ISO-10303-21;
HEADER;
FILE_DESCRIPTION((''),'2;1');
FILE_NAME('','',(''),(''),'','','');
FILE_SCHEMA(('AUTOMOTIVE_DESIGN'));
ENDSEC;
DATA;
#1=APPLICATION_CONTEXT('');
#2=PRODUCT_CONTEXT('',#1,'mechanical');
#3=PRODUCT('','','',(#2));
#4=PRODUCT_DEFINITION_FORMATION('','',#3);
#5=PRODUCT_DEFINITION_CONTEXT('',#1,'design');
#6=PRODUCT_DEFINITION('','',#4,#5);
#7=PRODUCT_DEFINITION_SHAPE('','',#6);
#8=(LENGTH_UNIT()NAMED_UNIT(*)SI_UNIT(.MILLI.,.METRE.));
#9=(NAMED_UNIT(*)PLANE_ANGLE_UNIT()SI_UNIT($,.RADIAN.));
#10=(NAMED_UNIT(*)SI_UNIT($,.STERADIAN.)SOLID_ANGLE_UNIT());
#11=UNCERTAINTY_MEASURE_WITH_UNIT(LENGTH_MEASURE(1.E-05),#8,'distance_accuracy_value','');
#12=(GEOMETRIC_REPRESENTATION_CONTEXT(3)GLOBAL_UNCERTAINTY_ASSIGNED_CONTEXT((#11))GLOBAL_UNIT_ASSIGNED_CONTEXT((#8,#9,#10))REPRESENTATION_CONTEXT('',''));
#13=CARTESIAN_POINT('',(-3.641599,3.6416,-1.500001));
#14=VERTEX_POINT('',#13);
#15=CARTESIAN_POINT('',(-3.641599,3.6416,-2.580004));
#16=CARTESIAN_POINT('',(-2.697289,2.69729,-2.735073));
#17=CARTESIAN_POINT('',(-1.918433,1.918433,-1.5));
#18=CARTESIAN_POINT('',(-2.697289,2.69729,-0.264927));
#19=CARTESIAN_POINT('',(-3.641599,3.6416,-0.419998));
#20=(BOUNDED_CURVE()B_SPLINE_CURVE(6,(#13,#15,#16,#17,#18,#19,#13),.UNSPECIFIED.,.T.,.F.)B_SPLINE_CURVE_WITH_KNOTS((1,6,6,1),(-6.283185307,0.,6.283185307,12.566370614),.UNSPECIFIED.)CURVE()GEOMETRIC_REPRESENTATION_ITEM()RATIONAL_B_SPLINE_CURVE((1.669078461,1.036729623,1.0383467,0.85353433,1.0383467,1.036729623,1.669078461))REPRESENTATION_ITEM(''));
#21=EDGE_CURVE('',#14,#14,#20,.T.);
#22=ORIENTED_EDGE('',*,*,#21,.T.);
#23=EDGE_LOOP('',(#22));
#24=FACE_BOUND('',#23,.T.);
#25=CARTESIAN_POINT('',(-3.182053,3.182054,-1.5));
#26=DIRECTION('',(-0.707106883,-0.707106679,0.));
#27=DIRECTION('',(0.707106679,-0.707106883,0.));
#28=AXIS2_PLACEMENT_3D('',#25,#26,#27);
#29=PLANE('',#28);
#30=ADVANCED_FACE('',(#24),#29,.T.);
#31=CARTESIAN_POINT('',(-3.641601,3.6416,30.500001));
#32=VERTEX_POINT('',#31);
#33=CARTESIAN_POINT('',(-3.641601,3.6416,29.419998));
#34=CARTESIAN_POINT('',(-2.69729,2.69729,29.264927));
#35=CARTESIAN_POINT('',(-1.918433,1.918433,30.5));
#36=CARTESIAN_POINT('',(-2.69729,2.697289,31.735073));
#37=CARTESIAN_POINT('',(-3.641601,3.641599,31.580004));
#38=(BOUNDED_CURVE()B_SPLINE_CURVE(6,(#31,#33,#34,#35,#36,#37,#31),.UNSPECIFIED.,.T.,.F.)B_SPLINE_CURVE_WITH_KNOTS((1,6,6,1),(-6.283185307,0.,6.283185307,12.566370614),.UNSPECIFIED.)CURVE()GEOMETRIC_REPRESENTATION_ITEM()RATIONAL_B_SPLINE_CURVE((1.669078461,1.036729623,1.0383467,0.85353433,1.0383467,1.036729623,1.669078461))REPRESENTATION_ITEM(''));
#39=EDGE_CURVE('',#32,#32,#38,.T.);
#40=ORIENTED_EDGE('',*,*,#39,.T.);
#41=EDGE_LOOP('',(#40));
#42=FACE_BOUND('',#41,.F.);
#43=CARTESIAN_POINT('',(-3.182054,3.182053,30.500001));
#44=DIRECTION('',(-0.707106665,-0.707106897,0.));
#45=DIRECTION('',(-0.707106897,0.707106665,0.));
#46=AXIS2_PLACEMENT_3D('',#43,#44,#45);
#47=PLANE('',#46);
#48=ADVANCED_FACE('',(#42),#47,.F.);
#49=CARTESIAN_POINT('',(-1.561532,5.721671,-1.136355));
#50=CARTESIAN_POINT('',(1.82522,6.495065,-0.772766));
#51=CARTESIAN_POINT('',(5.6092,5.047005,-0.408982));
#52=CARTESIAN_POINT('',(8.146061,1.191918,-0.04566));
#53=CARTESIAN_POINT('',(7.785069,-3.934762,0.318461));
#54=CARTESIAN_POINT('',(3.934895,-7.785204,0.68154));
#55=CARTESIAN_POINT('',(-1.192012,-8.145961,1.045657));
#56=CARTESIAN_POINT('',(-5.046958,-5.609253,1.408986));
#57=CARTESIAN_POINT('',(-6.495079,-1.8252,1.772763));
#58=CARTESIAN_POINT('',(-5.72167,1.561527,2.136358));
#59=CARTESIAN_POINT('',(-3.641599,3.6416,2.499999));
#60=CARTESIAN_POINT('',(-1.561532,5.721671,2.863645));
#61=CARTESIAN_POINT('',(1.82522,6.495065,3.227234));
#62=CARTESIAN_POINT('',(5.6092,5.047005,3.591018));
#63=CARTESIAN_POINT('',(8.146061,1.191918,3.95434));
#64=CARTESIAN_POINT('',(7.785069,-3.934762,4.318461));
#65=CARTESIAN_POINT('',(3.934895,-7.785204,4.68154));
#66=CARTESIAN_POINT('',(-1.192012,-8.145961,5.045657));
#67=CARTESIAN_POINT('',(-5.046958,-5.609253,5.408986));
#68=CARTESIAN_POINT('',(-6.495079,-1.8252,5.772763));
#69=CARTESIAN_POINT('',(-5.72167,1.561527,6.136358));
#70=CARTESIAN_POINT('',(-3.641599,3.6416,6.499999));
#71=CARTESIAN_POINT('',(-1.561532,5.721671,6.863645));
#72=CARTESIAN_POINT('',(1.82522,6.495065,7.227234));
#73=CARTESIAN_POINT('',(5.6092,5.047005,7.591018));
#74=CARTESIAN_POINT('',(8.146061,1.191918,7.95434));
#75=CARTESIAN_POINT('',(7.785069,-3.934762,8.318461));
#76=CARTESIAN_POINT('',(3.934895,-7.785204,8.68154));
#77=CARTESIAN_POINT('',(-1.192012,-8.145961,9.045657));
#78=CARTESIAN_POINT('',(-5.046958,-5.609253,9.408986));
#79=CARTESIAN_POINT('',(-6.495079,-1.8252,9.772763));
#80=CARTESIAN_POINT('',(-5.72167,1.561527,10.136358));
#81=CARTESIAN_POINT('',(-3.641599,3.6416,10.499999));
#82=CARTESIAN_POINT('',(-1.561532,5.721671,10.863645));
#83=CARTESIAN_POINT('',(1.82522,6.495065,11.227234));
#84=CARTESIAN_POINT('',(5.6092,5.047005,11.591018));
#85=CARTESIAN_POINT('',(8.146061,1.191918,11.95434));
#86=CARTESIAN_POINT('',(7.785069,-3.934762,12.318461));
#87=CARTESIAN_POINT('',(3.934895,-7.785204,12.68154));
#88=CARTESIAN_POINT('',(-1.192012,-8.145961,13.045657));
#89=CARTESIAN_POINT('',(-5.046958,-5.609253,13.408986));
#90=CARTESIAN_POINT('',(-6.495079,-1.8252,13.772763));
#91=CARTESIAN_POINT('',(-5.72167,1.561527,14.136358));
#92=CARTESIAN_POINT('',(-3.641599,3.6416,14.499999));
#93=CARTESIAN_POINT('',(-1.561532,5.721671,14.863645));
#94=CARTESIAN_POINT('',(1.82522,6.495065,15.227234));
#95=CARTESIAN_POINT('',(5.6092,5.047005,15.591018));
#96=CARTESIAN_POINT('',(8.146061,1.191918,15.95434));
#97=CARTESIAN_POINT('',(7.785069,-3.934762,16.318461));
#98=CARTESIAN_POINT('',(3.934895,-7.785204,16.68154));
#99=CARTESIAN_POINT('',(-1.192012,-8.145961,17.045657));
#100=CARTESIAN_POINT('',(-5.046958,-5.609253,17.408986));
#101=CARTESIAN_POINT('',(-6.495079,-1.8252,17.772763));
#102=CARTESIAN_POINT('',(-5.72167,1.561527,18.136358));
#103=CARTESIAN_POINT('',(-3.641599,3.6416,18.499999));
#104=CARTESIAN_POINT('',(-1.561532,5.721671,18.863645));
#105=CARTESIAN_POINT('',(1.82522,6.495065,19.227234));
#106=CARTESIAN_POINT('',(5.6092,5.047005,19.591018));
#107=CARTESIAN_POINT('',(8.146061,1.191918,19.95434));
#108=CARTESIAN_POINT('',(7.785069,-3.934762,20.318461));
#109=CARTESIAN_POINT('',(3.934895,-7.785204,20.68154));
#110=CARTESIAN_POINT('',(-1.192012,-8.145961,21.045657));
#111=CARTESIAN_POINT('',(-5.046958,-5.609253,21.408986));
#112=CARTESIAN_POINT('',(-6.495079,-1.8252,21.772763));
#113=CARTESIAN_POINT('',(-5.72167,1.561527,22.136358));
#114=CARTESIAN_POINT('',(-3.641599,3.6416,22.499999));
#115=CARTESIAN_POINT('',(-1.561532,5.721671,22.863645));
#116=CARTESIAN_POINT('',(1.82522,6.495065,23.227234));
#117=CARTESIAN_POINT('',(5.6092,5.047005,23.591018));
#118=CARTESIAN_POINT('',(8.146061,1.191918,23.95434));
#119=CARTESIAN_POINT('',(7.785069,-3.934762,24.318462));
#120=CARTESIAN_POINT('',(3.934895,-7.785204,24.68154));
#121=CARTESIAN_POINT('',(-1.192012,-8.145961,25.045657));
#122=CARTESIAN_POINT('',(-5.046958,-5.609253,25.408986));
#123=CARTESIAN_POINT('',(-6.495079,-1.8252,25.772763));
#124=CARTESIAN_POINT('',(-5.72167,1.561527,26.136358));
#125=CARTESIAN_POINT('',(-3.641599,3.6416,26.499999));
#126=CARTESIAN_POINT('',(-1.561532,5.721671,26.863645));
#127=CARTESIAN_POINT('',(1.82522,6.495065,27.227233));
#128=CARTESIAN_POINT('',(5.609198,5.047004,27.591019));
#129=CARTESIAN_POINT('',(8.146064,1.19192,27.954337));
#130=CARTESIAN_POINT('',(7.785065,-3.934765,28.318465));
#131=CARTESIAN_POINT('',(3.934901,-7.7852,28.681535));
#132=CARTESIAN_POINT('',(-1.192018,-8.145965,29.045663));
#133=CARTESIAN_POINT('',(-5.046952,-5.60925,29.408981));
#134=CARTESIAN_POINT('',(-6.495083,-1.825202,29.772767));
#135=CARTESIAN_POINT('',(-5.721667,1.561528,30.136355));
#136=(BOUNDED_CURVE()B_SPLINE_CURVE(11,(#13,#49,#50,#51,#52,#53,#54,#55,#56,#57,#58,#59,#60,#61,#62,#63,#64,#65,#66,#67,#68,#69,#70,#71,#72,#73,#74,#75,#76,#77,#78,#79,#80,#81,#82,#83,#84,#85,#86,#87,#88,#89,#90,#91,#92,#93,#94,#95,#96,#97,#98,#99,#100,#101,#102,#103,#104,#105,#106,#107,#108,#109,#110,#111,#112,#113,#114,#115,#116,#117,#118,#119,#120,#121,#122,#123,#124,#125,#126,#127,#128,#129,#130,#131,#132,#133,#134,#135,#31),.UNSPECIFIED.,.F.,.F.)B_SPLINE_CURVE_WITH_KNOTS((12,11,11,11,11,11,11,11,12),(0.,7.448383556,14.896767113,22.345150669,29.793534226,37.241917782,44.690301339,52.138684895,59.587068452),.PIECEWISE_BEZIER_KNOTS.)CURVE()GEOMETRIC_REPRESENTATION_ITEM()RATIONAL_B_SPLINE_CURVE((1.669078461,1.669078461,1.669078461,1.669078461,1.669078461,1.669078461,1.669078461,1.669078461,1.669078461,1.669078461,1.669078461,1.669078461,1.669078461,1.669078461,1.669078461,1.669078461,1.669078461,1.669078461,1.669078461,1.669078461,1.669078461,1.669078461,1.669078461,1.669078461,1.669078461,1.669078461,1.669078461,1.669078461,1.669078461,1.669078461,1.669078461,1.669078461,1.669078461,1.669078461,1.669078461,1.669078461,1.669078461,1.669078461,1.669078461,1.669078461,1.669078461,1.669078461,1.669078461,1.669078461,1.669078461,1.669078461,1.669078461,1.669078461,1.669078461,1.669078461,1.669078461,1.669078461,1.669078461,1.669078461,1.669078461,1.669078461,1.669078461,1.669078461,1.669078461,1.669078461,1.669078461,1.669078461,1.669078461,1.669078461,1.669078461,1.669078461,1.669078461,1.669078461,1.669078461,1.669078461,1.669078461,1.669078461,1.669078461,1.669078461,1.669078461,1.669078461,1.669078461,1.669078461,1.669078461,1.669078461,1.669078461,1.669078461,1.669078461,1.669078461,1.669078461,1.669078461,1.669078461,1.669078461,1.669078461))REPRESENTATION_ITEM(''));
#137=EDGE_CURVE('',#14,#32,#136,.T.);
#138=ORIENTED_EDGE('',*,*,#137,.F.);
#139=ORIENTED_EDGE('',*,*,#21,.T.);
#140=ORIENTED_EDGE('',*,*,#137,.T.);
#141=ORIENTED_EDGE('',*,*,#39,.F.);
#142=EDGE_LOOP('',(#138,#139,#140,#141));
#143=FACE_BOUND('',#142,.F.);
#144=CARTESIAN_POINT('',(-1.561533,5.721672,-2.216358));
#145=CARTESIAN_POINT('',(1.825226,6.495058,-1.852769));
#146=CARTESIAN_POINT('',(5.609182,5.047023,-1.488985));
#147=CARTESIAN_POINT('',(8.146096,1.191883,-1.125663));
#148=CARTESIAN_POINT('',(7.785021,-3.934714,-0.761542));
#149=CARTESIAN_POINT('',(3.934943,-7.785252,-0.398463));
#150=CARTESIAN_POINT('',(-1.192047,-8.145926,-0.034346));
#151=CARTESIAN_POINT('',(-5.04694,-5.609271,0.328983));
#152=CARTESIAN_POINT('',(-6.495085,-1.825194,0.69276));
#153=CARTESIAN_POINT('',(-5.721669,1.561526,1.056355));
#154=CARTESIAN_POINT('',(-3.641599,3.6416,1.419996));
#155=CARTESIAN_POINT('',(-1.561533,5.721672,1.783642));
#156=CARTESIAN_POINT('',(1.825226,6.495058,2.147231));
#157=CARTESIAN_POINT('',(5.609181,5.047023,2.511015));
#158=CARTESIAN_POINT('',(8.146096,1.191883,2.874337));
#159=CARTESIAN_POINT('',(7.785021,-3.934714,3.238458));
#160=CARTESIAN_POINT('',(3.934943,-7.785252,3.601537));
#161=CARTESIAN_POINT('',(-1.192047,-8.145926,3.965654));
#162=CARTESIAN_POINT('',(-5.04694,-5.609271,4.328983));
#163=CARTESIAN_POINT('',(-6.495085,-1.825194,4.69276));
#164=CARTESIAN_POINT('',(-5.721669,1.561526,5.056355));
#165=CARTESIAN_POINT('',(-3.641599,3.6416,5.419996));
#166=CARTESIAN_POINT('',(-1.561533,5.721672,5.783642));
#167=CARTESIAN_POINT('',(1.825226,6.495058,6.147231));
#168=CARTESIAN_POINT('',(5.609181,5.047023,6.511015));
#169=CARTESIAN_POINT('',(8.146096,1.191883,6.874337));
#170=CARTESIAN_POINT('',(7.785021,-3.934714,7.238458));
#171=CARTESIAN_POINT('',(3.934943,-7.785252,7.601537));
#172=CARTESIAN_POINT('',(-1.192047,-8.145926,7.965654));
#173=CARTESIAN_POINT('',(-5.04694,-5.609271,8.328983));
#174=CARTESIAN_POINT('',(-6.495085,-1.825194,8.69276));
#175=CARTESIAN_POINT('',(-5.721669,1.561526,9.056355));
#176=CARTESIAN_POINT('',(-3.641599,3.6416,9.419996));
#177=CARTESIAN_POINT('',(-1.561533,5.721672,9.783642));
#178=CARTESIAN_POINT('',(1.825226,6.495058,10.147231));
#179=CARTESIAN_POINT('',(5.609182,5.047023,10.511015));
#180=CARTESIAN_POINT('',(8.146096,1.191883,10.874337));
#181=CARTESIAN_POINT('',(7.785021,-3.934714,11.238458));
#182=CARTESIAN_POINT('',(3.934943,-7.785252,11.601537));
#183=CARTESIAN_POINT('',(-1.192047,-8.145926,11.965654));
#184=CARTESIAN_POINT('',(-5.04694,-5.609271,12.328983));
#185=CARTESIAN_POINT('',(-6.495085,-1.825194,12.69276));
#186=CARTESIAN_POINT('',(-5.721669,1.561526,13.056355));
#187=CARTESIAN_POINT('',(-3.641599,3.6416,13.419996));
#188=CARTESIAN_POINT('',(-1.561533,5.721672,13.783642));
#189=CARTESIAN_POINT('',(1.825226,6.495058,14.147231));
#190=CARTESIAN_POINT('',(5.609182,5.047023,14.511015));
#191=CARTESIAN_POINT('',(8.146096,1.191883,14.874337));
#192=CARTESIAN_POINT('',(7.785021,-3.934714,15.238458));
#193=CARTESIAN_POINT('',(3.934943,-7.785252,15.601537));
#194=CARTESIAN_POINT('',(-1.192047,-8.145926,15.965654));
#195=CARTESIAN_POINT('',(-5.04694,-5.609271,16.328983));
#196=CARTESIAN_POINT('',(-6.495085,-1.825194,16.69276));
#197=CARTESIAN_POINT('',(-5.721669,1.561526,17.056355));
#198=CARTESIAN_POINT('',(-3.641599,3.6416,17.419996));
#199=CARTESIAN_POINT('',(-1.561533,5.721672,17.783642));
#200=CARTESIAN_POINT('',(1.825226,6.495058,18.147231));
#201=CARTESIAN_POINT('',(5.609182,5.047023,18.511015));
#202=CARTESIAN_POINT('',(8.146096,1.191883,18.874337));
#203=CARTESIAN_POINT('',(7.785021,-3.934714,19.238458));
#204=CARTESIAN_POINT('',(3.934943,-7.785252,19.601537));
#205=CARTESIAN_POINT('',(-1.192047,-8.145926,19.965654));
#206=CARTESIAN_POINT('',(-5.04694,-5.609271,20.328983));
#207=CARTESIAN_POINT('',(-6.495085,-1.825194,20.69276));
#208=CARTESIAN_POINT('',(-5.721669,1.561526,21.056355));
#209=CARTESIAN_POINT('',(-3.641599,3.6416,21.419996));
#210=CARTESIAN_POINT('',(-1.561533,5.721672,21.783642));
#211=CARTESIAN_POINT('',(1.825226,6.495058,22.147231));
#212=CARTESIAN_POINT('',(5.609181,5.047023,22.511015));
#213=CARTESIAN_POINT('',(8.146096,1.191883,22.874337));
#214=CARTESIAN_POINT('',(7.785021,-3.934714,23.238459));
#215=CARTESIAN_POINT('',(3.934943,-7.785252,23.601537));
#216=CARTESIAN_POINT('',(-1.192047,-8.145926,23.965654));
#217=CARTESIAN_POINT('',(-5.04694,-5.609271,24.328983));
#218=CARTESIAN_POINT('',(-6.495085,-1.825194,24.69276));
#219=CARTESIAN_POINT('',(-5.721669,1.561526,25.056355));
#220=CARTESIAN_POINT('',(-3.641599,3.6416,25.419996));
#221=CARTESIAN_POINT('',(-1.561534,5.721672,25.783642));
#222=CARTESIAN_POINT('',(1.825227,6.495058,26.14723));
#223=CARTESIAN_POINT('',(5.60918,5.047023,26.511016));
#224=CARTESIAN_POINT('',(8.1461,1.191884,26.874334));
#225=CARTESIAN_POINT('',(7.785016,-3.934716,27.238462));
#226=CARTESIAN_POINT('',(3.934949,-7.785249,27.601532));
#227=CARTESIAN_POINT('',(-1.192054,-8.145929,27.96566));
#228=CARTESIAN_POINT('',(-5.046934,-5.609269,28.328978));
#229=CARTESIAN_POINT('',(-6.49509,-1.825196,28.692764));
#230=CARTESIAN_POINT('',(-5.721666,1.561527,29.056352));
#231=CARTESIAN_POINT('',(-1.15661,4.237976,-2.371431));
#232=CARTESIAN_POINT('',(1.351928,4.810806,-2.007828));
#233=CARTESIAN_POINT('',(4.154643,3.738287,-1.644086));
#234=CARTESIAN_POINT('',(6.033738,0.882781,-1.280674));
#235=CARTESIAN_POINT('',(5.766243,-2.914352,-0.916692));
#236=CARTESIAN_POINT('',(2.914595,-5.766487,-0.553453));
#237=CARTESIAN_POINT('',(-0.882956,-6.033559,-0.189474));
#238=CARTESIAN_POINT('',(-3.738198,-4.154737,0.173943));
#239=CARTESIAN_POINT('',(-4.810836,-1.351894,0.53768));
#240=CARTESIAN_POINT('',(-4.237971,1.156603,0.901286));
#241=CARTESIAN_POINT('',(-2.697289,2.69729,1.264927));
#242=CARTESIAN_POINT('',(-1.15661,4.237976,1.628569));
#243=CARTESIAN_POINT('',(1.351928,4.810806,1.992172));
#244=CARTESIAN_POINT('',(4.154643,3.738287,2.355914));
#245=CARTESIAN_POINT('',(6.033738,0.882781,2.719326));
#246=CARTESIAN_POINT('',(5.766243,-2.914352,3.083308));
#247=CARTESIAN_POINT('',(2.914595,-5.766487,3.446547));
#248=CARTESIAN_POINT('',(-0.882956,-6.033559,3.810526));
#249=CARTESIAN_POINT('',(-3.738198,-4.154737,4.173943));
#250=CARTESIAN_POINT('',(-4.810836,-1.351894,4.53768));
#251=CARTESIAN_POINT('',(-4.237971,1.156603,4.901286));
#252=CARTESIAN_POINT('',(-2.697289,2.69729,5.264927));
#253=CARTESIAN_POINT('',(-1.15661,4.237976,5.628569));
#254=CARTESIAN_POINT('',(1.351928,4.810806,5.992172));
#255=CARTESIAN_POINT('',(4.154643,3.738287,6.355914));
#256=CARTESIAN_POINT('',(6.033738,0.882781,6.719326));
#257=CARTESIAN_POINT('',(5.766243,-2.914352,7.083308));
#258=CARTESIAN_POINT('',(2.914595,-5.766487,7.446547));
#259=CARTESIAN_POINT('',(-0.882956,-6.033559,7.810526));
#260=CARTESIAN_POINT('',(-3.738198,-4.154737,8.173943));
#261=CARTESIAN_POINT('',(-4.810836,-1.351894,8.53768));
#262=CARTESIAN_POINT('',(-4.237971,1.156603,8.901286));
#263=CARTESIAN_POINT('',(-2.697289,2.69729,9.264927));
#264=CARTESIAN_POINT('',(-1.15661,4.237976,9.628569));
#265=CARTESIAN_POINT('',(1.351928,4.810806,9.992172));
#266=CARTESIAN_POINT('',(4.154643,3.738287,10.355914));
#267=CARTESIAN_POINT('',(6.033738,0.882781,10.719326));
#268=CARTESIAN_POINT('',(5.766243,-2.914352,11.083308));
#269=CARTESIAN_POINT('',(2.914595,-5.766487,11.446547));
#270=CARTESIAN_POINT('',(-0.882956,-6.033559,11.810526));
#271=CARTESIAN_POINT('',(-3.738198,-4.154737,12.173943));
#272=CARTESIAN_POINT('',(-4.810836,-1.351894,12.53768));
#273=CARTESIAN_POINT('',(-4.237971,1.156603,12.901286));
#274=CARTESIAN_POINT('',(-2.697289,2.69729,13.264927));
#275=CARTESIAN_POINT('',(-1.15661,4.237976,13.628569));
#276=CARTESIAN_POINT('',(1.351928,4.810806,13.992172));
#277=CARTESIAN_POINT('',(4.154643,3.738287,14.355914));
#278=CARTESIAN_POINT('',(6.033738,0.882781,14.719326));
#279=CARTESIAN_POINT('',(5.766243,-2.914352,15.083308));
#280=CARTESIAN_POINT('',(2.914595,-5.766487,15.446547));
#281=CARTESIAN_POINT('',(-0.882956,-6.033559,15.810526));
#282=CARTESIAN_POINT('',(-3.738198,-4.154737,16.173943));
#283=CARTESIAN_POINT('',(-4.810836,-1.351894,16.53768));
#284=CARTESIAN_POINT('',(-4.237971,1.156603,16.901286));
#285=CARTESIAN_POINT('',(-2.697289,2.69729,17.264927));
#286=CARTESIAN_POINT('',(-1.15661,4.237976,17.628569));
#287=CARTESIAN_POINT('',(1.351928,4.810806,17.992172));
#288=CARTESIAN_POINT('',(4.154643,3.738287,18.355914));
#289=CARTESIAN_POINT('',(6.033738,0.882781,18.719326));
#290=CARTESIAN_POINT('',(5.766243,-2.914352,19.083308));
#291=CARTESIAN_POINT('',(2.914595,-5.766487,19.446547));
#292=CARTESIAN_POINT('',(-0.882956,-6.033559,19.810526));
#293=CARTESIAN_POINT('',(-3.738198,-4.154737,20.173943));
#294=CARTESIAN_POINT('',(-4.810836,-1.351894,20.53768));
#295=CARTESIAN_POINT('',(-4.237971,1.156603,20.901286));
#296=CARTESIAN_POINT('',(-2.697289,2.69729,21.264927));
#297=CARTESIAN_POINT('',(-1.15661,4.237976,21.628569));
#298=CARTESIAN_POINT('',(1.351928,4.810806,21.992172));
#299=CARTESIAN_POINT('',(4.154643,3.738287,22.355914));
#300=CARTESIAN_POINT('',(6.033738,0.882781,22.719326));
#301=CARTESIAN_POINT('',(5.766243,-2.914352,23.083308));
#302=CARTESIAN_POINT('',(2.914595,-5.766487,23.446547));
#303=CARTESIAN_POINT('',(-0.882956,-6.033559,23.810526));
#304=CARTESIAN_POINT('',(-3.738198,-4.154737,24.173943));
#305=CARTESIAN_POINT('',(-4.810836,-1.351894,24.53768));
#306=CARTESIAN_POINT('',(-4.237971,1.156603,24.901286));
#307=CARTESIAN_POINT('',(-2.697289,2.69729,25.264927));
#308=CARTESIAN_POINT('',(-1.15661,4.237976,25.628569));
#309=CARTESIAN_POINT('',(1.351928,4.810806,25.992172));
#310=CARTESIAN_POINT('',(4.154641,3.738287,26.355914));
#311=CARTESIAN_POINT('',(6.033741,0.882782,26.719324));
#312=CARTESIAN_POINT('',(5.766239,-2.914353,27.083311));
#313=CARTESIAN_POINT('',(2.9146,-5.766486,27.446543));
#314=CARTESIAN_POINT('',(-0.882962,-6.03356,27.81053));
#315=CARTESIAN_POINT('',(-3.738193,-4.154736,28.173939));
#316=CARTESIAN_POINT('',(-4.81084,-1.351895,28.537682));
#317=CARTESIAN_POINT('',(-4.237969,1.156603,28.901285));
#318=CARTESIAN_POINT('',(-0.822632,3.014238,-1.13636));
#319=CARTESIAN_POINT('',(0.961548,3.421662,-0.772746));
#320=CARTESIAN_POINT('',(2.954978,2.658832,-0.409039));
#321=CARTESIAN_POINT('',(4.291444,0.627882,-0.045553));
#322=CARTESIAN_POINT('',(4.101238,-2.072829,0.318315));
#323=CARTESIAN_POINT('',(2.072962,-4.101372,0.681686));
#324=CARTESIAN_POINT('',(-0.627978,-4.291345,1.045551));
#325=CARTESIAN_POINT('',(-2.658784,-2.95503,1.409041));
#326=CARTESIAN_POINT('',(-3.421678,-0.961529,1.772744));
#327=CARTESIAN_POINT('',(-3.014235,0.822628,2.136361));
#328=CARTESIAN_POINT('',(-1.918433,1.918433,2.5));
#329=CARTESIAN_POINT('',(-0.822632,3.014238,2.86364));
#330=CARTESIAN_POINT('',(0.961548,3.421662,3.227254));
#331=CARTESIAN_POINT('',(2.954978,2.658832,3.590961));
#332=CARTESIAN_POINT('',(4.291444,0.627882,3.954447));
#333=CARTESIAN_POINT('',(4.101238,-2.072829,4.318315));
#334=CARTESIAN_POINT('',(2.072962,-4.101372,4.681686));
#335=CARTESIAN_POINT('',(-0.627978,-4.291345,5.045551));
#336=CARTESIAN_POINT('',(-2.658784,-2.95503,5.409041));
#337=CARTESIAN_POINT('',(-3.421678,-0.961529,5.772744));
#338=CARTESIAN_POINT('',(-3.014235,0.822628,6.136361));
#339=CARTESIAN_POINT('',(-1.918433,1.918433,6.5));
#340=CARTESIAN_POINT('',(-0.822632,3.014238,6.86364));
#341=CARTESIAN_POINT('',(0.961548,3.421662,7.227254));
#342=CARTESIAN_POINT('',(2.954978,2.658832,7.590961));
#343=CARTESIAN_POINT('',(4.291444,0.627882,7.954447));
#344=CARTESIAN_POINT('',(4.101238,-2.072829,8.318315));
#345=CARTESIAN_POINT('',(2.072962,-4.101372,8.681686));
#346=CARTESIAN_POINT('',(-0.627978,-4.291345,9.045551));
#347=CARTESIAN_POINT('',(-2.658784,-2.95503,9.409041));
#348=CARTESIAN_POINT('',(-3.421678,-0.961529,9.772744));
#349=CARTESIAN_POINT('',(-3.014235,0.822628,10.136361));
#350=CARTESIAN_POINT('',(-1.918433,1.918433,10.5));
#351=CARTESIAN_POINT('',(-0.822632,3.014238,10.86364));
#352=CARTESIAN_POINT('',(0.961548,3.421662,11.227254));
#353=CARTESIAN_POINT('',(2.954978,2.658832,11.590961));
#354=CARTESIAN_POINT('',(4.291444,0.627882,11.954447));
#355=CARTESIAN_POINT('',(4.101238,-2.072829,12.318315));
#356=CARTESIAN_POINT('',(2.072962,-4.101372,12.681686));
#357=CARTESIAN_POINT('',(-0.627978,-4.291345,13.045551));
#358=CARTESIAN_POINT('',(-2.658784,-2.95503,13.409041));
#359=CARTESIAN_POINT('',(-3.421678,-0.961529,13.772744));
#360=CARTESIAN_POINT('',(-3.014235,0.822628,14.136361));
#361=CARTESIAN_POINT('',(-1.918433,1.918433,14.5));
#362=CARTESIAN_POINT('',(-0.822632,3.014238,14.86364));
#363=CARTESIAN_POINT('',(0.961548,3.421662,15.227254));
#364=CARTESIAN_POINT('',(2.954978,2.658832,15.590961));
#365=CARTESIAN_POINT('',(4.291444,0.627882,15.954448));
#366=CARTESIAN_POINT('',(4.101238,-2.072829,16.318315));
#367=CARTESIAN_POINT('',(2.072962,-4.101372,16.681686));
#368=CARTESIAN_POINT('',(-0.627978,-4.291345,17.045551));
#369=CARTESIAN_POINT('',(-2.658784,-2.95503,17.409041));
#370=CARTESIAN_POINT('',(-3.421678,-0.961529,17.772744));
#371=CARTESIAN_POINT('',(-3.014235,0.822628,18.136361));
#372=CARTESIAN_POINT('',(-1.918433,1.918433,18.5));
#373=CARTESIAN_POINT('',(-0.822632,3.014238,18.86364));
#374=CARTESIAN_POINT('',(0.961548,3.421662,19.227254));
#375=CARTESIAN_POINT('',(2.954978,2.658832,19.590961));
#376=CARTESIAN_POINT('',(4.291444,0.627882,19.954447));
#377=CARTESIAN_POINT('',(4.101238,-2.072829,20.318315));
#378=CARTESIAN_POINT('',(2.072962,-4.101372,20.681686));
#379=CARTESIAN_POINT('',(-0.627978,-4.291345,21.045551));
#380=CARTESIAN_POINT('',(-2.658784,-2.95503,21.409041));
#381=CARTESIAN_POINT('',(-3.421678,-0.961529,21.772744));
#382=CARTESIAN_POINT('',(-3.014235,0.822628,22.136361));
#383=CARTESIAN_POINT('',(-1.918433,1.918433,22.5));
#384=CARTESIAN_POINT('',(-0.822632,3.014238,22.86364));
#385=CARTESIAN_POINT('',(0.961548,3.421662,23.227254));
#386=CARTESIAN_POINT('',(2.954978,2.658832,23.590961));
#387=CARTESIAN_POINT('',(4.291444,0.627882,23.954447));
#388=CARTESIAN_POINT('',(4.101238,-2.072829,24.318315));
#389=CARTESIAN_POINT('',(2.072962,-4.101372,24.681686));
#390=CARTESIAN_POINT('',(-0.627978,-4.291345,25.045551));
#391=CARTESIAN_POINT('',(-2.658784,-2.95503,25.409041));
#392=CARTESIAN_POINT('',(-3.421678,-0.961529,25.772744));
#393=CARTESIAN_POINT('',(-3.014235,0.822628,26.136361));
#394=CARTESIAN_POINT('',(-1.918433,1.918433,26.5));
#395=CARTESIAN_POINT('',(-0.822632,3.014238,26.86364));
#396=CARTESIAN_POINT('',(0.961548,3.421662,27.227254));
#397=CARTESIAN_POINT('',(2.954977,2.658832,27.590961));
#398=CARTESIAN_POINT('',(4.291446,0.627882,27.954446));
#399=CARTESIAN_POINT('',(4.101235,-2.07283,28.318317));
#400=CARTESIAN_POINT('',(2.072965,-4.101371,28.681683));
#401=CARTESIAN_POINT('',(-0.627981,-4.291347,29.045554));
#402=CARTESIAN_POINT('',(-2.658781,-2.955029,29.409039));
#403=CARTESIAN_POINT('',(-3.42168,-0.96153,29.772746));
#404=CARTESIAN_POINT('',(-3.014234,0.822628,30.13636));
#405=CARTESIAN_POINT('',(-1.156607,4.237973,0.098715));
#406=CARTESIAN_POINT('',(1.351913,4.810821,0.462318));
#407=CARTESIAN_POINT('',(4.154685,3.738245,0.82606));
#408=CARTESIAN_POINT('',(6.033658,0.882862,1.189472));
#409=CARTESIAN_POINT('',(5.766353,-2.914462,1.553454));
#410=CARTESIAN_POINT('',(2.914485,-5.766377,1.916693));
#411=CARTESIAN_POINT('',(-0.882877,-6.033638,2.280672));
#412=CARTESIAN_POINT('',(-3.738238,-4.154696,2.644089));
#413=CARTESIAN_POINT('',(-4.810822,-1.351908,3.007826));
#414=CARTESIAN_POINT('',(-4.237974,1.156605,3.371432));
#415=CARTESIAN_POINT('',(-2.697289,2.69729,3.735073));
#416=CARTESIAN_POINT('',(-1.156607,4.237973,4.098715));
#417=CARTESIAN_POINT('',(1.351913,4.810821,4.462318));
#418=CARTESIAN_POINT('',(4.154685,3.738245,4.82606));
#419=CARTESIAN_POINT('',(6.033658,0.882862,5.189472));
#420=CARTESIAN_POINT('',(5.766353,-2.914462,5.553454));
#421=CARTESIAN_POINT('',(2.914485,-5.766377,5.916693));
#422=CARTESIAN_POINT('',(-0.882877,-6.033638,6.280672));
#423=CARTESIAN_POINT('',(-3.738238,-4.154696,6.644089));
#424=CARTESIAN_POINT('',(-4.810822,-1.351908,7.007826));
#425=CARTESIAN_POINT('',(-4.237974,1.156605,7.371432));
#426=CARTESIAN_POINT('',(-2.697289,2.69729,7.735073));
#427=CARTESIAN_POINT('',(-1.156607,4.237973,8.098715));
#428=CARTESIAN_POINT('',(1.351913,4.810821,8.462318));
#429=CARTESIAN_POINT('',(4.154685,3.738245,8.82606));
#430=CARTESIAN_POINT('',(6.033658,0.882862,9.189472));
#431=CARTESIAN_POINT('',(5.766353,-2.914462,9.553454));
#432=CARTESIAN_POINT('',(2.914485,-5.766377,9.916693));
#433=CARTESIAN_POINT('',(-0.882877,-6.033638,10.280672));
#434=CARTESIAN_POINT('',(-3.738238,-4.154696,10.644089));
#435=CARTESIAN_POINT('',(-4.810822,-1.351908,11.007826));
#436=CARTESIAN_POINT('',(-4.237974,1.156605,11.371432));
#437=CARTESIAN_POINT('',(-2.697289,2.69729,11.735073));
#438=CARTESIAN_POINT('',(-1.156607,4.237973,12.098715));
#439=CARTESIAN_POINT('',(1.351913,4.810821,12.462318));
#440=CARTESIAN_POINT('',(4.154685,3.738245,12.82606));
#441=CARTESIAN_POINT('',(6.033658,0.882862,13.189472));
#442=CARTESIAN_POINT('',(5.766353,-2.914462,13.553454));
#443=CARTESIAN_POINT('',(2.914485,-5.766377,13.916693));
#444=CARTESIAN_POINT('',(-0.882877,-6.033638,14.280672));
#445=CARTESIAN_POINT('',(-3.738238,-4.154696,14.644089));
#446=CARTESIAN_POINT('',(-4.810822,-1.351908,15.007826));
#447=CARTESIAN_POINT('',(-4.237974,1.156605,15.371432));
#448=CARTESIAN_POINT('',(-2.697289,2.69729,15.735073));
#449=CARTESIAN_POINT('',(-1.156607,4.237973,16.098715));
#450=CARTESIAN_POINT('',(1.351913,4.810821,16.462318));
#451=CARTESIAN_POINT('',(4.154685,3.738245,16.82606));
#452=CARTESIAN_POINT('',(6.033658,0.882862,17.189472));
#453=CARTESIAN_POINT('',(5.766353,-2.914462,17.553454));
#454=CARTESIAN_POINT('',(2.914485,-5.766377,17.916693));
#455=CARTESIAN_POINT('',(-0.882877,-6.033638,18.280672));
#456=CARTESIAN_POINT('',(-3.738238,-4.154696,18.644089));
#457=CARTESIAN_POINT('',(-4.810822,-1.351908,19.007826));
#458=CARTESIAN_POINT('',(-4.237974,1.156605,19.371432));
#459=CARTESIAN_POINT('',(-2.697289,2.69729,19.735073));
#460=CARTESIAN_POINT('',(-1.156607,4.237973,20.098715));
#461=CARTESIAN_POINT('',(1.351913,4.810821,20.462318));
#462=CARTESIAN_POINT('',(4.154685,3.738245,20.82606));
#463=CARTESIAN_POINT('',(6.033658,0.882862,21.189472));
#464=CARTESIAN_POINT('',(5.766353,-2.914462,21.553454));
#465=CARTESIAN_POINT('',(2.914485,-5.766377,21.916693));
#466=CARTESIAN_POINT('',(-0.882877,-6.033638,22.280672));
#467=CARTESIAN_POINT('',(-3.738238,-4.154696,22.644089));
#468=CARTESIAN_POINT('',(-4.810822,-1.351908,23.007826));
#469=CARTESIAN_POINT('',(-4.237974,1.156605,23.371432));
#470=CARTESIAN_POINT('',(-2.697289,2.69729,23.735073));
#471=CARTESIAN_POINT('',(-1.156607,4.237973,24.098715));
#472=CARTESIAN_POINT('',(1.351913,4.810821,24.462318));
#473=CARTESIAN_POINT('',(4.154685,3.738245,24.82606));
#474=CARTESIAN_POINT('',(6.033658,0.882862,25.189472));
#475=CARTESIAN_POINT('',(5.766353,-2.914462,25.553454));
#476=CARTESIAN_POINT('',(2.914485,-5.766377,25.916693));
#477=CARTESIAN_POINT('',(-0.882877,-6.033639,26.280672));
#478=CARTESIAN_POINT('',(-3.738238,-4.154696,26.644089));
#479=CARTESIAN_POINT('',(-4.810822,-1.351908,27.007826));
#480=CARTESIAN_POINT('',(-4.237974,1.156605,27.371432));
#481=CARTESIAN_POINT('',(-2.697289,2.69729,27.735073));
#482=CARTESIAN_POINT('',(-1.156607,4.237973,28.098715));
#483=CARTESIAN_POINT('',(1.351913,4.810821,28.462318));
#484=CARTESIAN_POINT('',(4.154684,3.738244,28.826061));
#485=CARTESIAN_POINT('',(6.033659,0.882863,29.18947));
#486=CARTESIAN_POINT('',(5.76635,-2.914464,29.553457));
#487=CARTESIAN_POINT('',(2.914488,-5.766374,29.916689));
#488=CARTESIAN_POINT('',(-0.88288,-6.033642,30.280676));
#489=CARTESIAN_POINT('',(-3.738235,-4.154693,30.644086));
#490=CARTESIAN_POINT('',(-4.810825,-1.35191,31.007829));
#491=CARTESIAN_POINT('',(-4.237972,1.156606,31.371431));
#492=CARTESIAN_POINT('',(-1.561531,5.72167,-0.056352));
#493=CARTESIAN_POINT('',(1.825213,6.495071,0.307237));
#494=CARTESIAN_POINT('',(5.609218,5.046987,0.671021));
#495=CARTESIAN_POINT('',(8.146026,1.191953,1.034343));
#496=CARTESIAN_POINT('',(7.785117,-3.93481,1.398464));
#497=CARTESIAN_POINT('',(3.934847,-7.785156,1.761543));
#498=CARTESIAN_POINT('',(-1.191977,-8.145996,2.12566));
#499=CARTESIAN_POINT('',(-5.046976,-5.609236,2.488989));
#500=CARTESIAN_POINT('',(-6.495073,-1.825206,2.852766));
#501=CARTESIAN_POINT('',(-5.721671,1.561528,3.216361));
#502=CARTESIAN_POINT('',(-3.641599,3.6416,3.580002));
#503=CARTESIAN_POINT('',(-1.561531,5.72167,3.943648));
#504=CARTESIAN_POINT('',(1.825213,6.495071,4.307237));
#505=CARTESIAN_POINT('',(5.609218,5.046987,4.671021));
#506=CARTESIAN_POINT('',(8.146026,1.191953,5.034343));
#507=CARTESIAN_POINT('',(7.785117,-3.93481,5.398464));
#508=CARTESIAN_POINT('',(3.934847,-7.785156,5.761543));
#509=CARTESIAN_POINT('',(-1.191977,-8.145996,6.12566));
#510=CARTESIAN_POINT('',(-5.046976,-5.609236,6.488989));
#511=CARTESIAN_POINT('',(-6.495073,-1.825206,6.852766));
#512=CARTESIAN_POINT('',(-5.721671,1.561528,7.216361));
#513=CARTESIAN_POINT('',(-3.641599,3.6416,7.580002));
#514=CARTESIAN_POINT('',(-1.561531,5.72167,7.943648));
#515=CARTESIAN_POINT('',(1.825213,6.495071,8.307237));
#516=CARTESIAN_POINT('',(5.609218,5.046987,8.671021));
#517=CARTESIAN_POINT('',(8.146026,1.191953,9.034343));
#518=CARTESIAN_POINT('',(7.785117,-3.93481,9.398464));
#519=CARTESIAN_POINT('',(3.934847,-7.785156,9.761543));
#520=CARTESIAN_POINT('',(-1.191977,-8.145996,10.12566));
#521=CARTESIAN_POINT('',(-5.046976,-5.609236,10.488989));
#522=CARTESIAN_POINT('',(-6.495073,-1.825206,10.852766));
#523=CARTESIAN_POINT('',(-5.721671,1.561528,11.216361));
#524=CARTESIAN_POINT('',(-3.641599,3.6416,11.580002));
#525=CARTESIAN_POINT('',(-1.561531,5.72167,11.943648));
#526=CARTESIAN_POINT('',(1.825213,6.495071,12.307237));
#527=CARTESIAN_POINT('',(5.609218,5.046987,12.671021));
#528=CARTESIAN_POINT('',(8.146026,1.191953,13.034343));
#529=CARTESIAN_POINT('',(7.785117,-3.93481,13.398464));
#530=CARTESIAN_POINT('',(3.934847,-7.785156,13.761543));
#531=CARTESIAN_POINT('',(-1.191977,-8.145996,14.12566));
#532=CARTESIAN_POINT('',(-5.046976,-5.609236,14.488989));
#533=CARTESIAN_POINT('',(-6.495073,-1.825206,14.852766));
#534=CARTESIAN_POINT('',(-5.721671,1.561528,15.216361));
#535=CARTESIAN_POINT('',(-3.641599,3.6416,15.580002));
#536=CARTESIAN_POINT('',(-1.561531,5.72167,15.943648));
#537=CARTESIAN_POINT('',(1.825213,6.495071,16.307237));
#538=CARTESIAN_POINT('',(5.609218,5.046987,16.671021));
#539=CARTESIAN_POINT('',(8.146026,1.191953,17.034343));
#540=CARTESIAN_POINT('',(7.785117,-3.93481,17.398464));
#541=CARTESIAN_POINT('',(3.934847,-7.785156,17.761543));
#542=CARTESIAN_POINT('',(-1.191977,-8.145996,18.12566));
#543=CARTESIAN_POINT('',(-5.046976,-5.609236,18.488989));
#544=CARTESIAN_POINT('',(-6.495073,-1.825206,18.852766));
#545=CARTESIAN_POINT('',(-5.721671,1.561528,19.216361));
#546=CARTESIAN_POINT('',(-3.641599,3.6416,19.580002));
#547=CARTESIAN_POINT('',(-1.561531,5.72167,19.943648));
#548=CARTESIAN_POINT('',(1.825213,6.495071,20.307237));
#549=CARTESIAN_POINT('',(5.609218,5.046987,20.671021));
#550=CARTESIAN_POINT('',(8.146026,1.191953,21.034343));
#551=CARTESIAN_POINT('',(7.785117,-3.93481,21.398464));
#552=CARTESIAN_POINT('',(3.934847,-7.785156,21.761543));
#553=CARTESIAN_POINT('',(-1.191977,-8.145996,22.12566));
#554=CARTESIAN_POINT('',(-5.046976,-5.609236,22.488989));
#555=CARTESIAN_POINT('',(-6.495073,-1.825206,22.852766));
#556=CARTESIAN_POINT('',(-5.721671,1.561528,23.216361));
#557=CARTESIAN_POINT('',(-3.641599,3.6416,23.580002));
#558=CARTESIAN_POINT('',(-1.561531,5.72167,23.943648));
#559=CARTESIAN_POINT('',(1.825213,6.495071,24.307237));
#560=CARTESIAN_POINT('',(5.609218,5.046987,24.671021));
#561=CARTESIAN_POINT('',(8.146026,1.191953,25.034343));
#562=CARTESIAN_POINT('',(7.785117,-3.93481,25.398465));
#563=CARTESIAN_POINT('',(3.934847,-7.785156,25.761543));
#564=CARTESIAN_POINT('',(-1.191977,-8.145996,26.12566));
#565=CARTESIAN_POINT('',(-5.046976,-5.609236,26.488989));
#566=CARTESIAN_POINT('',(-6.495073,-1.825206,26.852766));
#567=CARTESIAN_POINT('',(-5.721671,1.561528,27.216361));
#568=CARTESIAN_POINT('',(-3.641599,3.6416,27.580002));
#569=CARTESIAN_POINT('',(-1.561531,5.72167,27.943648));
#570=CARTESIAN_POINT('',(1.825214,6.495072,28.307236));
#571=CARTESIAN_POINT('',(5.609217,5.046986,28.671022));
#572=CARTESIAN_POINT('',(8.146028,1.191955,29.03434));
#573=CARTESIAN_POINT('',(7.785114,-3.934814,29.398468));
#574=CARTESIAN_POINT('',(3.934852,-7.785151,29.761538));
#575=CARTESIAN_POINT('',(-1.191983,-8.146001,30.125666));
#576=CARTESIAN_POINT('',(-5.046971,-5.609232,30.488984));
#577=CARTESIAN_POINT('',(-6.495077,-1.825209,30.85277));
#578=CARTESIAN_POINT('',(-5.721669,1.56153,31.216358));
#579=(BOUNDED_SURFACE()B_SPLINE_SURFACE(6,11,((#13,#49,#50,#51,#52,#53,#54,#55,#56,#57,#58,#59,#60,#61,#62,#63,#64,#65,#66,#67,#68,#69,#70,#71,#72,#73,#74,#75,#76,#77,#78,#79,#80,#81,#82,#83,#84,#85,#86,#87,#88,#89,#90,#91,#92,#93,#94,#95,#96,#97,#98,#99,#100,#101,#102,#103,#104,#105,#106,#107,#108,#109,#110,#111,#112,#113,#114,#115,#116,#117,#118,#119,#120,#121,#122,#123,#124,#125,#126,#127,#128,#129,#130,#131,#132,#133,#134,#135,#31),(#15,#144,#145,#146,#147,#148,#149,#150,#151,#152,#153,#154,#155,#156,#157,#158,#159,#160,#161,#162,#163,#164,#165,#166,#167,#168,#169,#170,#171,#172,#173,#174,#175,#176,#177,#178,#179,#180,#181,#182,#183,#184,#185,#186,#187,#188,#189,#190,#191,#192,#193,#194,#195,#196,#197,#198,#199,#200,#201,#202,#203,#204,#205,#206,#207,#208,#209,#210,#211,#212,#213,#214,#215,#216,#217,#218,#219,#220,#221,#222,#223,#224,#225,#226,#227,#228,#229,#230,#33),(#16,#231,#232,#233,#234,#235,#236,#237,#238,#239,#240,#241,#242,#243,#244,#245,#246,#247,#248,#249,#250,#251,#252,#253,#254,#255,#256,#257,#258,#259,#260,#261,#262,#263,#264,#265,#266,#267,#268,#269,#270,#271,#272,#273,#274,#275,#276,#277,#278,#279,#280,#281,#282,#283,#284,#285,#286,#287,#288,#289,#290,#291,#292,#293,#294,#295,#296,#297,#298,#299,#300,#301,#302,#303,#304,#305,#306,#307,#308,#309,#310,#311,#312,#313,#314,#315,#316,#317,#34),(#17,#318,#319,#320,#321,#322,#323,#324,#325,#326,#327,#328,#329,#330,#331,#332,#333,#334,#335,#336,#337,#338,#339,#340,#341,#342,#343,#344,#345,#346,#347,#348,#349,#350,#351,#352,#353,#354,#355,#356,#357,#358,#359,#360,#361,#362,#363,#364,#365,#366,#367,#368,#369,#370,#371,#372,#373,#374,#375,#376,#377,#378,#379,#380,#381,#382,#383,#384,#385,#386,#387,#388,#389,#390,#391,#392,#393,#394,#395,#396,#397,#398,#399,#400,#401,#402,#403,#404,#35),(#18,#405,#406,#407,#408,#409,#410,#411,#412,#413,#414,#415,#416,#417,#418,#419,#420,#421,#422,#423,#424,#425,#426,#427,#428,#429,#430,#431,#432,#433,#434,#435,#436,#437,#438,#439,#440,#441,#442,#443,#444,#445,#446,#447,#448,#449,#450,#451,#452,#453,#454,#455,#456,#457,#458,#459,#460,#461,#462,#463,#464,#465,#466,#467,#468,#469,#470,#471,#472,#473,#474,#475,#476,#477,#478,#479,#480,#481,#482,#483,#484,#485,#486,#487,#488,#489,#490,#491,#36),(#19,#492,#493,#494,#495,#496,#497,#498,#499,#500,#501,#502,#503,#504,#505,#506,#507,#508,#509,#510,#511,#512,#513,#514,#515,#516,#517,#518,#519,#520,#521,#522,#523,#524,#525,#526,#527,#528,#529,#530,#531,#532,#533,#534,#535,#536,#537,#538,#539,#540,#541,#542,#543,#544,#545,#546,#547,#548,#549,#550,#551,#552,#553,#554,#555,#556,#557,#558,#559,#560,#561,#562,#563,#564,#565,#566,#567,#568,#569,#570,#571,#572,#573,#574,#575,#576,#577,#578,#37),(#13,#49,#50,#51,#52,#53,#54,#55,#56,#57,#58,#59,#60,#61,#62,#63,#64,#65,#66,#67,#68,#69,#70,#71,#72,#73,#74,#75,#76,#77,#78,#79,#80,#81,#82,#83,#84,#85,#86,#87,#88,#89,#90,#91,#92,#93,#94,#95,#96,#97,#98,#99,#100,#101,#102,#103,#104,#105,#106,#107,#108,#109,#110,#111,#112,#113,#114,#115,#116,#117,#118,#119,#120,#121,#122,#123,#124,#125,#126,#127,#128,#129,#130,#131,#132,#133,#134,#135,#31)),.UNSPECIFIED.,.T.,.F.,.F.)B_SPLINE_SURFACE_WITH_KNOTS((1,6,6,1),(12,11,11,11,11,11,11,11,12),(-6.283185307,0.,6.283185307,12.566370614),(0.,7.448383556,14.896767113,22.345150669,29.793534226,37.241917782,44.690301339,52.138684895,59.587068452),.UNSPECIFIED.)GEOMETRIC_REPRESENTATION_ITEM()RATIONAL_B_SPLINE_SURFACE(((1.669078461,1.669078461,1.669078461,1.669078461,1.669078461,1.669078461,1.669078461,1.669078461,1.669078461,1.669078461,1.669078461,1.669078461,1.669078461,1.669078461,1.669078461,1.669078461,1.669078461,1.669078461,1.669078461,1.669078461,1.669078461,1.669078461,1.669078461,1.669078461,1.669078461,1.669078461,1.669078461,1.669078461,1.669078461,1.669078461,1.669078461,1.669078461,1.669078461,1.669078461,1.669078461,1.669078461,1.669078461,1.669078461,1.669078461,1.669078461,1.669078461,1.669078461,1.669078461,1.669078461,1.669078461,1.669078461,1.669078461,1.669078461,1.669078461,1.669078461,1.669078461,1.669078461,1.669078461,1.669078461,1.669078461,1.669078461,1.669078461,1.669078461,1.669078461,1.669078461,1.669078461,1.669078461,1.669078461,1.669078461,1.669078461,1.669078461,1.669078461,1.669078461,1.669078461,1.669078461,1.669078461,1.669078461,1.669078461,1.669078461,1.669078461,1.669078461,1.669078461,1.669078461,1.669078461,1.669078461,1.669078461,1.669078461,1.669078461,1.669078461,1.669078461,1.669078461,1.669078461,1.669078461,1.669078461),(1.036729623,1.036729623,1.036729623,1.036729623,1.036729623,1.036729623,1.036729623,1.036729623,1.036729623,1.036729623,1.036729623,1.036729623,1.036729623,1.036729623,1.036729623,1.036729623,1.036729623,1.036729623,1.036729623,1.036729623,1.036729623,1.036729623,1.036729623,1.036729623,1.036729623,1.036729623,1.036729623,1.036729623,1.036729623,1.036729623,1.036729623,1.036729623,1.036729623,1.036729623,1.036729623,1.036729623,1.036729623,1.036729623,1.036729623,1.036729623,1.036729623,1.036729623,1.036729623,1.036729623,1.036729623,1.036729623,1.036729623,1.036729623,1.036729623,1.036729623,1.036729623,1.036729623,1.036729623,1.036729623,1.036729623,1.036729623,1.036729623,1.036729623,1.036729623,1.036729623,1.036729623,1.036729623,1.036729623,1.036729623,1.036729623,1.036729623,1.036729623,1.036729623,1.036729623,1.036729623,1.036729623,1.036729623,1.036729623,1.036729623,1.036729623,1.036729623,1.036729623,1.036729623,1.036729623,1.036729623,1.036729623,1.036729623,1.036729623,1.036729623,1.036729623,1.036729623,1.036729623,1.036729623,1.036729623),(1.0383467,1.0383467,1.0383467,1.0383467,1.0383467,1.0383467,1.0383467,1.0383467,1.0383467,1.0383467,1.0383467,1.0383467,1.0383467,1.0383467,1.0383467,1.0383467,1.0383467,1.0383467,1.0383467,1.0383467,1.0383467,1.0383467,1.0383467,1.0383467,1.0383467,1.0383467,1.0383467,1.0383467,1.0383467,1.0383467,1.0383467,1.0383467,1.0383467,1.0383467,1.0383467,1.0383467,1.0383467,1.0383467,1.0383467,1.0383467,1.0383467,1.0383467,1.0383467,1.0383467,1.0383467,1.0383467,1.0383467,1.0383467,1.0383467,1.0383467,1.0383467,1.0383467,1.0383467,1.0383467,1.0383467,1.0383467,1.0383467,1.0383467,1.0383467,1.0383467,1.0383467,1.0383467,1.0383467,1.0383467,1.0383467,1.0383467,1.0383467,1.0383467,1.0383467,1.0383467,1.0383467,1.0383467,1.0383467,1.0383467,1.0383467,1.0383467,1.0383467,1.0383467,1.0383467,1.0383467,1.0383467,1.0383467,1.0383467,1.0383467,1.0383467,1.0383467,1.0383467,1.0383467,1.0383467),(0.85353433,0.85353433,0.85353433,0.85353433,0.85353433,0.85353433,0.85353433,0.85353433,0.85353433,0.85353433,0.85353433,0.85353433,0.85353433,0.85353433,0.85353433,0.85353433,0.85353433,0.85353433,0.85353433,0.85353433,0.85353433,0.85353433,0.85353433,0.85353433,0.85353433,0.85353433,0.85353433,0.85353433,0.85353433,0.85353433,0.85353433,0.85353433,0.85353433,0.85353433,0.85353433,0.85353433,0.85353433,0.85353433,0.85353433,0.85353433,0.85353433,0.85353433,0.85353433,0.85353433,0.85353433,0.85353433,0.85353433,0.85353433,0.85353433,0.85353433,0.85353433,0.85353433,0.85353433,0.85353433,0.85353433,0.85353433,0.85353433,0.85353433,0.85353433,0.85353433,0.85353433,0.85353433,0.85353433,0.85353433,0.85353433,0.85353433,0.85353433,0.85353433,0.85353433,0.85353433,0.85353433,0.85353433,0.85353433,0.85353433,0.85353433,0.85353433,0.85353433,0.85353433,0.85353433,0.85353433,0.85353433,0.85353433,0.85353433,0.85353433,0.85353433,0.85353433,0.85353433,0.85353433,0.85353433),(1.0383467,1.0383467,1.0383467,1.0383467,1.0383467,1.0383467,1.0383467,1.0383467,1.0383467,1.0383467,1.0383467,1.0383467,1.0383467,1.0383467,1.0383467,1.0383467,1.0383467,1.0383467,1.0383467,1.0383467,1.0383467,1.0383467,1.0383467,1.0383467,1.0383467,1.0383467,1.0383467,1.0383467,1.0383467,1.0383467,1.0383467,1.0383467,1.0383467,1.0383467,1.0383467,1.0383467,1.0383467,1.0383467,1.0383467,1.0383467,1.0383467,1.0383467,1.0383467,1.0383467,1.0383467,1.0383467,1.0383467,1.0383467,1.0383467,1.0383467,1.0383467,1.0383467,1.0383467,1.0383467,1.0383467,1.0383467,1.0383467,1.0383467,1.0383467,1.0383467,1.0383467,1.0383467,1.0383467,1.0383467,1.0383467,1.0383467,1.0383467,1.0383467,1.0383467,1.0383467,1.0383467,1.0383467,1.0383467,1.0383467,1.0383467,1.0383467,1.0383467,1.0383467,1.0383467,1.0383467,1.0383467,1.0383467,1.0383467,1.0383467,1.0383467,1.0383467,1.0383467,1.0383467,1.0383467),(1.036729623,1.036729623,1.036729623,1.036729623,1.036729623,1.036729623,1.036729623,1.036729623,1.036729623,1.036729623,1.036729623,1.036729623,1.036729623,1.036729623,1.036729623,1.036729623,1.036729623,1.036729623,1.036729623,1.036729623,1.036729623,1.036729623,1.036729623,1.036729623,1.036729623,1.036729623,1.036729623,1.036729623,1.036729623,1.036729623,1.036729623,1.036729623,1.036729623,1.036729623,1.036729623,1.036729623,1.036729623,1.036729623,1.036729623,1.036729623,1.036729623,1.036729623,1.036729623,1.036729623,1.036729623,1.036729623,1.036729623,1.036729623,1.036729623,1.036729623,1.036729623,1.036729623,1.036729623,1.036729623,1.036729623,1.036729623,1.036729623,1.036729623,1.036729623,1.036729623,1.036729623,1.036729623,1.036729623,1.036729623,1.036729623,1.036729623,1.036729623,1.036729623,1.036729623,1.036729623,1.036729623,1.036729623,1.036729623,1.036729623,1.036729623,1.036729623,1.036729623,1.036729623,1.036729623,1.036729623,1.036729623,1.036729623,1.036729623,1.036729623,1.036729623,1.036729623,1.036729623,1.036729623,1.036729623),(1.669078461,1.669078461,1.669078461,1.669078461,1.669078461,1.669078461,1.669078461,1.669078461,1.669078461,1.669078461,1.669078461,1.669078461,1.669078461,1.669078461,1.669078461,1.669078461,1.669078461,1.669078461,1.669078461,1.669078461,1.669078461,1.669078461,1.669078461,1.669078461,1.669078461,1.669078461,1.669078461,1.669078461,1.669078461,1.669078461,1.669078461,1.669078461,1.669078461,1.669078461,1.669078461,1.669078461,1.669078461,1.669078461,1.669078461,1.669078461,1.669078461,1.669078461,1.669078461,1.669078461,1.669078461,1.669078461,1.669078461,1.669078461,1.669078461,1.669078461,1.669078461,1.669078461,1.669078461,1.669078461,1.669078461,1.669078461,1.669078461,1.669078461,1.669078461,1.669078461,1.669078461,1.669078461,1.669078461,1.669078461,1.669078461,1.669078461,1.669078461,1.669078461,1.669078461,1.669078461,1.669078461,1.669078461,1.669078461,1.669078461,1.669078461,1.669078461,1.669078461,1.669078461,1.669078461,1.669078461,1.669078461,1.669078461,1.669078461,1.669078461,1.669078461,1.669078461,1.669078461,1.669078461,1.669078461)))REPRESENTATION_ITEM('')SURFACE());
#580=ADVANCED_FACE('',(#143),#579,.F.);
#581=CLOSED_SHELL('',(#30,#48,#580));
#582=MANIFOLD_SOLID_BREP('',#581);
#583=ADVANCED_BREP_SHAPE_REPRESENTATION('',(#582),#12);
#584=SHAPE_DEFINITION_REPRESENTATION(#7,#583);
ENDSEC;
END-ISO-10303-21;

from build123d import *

# Parameters (mm, degrees)
BALAYAGE1_PITCH       = 4
BALAYAGE1_HEIGHT      = 32
BALAYAGE1_RADIUS      = 0.5
BALAYAGE1_START_ANGLE = 135
ESQUISSE3_R           = 0.65


with BuildPart() as part:
    # Balayage1: sweep along a helix
    with BuildLine() as balayage1_path:
        add(Helix(BALAYAGE1_PITCH, BALAYAGE1_HEIGHT, BALAYAGE1_RADIUS, center=(0, 0, 0), direction=(0, 0, 1), lefthand=True, mode=Mode.PRIVATE).rotate(Axis((0, 0, 0), (0, 0, 1)), BALAYAGE1_START_ANGLE))
    # Esquisse3 → Balayage1 (sweep)
    with BuildSketch(Plane(origin=(0, 0, 0), x_dir=(1, 0, 0), z_dir=(0, 1, 0))):
        with Locations((4.5, 0)):
            Circle(ESQUISSE3_R)
    sweep(path=balayage1_path.line, is_frenet=True)


solid = part.part
